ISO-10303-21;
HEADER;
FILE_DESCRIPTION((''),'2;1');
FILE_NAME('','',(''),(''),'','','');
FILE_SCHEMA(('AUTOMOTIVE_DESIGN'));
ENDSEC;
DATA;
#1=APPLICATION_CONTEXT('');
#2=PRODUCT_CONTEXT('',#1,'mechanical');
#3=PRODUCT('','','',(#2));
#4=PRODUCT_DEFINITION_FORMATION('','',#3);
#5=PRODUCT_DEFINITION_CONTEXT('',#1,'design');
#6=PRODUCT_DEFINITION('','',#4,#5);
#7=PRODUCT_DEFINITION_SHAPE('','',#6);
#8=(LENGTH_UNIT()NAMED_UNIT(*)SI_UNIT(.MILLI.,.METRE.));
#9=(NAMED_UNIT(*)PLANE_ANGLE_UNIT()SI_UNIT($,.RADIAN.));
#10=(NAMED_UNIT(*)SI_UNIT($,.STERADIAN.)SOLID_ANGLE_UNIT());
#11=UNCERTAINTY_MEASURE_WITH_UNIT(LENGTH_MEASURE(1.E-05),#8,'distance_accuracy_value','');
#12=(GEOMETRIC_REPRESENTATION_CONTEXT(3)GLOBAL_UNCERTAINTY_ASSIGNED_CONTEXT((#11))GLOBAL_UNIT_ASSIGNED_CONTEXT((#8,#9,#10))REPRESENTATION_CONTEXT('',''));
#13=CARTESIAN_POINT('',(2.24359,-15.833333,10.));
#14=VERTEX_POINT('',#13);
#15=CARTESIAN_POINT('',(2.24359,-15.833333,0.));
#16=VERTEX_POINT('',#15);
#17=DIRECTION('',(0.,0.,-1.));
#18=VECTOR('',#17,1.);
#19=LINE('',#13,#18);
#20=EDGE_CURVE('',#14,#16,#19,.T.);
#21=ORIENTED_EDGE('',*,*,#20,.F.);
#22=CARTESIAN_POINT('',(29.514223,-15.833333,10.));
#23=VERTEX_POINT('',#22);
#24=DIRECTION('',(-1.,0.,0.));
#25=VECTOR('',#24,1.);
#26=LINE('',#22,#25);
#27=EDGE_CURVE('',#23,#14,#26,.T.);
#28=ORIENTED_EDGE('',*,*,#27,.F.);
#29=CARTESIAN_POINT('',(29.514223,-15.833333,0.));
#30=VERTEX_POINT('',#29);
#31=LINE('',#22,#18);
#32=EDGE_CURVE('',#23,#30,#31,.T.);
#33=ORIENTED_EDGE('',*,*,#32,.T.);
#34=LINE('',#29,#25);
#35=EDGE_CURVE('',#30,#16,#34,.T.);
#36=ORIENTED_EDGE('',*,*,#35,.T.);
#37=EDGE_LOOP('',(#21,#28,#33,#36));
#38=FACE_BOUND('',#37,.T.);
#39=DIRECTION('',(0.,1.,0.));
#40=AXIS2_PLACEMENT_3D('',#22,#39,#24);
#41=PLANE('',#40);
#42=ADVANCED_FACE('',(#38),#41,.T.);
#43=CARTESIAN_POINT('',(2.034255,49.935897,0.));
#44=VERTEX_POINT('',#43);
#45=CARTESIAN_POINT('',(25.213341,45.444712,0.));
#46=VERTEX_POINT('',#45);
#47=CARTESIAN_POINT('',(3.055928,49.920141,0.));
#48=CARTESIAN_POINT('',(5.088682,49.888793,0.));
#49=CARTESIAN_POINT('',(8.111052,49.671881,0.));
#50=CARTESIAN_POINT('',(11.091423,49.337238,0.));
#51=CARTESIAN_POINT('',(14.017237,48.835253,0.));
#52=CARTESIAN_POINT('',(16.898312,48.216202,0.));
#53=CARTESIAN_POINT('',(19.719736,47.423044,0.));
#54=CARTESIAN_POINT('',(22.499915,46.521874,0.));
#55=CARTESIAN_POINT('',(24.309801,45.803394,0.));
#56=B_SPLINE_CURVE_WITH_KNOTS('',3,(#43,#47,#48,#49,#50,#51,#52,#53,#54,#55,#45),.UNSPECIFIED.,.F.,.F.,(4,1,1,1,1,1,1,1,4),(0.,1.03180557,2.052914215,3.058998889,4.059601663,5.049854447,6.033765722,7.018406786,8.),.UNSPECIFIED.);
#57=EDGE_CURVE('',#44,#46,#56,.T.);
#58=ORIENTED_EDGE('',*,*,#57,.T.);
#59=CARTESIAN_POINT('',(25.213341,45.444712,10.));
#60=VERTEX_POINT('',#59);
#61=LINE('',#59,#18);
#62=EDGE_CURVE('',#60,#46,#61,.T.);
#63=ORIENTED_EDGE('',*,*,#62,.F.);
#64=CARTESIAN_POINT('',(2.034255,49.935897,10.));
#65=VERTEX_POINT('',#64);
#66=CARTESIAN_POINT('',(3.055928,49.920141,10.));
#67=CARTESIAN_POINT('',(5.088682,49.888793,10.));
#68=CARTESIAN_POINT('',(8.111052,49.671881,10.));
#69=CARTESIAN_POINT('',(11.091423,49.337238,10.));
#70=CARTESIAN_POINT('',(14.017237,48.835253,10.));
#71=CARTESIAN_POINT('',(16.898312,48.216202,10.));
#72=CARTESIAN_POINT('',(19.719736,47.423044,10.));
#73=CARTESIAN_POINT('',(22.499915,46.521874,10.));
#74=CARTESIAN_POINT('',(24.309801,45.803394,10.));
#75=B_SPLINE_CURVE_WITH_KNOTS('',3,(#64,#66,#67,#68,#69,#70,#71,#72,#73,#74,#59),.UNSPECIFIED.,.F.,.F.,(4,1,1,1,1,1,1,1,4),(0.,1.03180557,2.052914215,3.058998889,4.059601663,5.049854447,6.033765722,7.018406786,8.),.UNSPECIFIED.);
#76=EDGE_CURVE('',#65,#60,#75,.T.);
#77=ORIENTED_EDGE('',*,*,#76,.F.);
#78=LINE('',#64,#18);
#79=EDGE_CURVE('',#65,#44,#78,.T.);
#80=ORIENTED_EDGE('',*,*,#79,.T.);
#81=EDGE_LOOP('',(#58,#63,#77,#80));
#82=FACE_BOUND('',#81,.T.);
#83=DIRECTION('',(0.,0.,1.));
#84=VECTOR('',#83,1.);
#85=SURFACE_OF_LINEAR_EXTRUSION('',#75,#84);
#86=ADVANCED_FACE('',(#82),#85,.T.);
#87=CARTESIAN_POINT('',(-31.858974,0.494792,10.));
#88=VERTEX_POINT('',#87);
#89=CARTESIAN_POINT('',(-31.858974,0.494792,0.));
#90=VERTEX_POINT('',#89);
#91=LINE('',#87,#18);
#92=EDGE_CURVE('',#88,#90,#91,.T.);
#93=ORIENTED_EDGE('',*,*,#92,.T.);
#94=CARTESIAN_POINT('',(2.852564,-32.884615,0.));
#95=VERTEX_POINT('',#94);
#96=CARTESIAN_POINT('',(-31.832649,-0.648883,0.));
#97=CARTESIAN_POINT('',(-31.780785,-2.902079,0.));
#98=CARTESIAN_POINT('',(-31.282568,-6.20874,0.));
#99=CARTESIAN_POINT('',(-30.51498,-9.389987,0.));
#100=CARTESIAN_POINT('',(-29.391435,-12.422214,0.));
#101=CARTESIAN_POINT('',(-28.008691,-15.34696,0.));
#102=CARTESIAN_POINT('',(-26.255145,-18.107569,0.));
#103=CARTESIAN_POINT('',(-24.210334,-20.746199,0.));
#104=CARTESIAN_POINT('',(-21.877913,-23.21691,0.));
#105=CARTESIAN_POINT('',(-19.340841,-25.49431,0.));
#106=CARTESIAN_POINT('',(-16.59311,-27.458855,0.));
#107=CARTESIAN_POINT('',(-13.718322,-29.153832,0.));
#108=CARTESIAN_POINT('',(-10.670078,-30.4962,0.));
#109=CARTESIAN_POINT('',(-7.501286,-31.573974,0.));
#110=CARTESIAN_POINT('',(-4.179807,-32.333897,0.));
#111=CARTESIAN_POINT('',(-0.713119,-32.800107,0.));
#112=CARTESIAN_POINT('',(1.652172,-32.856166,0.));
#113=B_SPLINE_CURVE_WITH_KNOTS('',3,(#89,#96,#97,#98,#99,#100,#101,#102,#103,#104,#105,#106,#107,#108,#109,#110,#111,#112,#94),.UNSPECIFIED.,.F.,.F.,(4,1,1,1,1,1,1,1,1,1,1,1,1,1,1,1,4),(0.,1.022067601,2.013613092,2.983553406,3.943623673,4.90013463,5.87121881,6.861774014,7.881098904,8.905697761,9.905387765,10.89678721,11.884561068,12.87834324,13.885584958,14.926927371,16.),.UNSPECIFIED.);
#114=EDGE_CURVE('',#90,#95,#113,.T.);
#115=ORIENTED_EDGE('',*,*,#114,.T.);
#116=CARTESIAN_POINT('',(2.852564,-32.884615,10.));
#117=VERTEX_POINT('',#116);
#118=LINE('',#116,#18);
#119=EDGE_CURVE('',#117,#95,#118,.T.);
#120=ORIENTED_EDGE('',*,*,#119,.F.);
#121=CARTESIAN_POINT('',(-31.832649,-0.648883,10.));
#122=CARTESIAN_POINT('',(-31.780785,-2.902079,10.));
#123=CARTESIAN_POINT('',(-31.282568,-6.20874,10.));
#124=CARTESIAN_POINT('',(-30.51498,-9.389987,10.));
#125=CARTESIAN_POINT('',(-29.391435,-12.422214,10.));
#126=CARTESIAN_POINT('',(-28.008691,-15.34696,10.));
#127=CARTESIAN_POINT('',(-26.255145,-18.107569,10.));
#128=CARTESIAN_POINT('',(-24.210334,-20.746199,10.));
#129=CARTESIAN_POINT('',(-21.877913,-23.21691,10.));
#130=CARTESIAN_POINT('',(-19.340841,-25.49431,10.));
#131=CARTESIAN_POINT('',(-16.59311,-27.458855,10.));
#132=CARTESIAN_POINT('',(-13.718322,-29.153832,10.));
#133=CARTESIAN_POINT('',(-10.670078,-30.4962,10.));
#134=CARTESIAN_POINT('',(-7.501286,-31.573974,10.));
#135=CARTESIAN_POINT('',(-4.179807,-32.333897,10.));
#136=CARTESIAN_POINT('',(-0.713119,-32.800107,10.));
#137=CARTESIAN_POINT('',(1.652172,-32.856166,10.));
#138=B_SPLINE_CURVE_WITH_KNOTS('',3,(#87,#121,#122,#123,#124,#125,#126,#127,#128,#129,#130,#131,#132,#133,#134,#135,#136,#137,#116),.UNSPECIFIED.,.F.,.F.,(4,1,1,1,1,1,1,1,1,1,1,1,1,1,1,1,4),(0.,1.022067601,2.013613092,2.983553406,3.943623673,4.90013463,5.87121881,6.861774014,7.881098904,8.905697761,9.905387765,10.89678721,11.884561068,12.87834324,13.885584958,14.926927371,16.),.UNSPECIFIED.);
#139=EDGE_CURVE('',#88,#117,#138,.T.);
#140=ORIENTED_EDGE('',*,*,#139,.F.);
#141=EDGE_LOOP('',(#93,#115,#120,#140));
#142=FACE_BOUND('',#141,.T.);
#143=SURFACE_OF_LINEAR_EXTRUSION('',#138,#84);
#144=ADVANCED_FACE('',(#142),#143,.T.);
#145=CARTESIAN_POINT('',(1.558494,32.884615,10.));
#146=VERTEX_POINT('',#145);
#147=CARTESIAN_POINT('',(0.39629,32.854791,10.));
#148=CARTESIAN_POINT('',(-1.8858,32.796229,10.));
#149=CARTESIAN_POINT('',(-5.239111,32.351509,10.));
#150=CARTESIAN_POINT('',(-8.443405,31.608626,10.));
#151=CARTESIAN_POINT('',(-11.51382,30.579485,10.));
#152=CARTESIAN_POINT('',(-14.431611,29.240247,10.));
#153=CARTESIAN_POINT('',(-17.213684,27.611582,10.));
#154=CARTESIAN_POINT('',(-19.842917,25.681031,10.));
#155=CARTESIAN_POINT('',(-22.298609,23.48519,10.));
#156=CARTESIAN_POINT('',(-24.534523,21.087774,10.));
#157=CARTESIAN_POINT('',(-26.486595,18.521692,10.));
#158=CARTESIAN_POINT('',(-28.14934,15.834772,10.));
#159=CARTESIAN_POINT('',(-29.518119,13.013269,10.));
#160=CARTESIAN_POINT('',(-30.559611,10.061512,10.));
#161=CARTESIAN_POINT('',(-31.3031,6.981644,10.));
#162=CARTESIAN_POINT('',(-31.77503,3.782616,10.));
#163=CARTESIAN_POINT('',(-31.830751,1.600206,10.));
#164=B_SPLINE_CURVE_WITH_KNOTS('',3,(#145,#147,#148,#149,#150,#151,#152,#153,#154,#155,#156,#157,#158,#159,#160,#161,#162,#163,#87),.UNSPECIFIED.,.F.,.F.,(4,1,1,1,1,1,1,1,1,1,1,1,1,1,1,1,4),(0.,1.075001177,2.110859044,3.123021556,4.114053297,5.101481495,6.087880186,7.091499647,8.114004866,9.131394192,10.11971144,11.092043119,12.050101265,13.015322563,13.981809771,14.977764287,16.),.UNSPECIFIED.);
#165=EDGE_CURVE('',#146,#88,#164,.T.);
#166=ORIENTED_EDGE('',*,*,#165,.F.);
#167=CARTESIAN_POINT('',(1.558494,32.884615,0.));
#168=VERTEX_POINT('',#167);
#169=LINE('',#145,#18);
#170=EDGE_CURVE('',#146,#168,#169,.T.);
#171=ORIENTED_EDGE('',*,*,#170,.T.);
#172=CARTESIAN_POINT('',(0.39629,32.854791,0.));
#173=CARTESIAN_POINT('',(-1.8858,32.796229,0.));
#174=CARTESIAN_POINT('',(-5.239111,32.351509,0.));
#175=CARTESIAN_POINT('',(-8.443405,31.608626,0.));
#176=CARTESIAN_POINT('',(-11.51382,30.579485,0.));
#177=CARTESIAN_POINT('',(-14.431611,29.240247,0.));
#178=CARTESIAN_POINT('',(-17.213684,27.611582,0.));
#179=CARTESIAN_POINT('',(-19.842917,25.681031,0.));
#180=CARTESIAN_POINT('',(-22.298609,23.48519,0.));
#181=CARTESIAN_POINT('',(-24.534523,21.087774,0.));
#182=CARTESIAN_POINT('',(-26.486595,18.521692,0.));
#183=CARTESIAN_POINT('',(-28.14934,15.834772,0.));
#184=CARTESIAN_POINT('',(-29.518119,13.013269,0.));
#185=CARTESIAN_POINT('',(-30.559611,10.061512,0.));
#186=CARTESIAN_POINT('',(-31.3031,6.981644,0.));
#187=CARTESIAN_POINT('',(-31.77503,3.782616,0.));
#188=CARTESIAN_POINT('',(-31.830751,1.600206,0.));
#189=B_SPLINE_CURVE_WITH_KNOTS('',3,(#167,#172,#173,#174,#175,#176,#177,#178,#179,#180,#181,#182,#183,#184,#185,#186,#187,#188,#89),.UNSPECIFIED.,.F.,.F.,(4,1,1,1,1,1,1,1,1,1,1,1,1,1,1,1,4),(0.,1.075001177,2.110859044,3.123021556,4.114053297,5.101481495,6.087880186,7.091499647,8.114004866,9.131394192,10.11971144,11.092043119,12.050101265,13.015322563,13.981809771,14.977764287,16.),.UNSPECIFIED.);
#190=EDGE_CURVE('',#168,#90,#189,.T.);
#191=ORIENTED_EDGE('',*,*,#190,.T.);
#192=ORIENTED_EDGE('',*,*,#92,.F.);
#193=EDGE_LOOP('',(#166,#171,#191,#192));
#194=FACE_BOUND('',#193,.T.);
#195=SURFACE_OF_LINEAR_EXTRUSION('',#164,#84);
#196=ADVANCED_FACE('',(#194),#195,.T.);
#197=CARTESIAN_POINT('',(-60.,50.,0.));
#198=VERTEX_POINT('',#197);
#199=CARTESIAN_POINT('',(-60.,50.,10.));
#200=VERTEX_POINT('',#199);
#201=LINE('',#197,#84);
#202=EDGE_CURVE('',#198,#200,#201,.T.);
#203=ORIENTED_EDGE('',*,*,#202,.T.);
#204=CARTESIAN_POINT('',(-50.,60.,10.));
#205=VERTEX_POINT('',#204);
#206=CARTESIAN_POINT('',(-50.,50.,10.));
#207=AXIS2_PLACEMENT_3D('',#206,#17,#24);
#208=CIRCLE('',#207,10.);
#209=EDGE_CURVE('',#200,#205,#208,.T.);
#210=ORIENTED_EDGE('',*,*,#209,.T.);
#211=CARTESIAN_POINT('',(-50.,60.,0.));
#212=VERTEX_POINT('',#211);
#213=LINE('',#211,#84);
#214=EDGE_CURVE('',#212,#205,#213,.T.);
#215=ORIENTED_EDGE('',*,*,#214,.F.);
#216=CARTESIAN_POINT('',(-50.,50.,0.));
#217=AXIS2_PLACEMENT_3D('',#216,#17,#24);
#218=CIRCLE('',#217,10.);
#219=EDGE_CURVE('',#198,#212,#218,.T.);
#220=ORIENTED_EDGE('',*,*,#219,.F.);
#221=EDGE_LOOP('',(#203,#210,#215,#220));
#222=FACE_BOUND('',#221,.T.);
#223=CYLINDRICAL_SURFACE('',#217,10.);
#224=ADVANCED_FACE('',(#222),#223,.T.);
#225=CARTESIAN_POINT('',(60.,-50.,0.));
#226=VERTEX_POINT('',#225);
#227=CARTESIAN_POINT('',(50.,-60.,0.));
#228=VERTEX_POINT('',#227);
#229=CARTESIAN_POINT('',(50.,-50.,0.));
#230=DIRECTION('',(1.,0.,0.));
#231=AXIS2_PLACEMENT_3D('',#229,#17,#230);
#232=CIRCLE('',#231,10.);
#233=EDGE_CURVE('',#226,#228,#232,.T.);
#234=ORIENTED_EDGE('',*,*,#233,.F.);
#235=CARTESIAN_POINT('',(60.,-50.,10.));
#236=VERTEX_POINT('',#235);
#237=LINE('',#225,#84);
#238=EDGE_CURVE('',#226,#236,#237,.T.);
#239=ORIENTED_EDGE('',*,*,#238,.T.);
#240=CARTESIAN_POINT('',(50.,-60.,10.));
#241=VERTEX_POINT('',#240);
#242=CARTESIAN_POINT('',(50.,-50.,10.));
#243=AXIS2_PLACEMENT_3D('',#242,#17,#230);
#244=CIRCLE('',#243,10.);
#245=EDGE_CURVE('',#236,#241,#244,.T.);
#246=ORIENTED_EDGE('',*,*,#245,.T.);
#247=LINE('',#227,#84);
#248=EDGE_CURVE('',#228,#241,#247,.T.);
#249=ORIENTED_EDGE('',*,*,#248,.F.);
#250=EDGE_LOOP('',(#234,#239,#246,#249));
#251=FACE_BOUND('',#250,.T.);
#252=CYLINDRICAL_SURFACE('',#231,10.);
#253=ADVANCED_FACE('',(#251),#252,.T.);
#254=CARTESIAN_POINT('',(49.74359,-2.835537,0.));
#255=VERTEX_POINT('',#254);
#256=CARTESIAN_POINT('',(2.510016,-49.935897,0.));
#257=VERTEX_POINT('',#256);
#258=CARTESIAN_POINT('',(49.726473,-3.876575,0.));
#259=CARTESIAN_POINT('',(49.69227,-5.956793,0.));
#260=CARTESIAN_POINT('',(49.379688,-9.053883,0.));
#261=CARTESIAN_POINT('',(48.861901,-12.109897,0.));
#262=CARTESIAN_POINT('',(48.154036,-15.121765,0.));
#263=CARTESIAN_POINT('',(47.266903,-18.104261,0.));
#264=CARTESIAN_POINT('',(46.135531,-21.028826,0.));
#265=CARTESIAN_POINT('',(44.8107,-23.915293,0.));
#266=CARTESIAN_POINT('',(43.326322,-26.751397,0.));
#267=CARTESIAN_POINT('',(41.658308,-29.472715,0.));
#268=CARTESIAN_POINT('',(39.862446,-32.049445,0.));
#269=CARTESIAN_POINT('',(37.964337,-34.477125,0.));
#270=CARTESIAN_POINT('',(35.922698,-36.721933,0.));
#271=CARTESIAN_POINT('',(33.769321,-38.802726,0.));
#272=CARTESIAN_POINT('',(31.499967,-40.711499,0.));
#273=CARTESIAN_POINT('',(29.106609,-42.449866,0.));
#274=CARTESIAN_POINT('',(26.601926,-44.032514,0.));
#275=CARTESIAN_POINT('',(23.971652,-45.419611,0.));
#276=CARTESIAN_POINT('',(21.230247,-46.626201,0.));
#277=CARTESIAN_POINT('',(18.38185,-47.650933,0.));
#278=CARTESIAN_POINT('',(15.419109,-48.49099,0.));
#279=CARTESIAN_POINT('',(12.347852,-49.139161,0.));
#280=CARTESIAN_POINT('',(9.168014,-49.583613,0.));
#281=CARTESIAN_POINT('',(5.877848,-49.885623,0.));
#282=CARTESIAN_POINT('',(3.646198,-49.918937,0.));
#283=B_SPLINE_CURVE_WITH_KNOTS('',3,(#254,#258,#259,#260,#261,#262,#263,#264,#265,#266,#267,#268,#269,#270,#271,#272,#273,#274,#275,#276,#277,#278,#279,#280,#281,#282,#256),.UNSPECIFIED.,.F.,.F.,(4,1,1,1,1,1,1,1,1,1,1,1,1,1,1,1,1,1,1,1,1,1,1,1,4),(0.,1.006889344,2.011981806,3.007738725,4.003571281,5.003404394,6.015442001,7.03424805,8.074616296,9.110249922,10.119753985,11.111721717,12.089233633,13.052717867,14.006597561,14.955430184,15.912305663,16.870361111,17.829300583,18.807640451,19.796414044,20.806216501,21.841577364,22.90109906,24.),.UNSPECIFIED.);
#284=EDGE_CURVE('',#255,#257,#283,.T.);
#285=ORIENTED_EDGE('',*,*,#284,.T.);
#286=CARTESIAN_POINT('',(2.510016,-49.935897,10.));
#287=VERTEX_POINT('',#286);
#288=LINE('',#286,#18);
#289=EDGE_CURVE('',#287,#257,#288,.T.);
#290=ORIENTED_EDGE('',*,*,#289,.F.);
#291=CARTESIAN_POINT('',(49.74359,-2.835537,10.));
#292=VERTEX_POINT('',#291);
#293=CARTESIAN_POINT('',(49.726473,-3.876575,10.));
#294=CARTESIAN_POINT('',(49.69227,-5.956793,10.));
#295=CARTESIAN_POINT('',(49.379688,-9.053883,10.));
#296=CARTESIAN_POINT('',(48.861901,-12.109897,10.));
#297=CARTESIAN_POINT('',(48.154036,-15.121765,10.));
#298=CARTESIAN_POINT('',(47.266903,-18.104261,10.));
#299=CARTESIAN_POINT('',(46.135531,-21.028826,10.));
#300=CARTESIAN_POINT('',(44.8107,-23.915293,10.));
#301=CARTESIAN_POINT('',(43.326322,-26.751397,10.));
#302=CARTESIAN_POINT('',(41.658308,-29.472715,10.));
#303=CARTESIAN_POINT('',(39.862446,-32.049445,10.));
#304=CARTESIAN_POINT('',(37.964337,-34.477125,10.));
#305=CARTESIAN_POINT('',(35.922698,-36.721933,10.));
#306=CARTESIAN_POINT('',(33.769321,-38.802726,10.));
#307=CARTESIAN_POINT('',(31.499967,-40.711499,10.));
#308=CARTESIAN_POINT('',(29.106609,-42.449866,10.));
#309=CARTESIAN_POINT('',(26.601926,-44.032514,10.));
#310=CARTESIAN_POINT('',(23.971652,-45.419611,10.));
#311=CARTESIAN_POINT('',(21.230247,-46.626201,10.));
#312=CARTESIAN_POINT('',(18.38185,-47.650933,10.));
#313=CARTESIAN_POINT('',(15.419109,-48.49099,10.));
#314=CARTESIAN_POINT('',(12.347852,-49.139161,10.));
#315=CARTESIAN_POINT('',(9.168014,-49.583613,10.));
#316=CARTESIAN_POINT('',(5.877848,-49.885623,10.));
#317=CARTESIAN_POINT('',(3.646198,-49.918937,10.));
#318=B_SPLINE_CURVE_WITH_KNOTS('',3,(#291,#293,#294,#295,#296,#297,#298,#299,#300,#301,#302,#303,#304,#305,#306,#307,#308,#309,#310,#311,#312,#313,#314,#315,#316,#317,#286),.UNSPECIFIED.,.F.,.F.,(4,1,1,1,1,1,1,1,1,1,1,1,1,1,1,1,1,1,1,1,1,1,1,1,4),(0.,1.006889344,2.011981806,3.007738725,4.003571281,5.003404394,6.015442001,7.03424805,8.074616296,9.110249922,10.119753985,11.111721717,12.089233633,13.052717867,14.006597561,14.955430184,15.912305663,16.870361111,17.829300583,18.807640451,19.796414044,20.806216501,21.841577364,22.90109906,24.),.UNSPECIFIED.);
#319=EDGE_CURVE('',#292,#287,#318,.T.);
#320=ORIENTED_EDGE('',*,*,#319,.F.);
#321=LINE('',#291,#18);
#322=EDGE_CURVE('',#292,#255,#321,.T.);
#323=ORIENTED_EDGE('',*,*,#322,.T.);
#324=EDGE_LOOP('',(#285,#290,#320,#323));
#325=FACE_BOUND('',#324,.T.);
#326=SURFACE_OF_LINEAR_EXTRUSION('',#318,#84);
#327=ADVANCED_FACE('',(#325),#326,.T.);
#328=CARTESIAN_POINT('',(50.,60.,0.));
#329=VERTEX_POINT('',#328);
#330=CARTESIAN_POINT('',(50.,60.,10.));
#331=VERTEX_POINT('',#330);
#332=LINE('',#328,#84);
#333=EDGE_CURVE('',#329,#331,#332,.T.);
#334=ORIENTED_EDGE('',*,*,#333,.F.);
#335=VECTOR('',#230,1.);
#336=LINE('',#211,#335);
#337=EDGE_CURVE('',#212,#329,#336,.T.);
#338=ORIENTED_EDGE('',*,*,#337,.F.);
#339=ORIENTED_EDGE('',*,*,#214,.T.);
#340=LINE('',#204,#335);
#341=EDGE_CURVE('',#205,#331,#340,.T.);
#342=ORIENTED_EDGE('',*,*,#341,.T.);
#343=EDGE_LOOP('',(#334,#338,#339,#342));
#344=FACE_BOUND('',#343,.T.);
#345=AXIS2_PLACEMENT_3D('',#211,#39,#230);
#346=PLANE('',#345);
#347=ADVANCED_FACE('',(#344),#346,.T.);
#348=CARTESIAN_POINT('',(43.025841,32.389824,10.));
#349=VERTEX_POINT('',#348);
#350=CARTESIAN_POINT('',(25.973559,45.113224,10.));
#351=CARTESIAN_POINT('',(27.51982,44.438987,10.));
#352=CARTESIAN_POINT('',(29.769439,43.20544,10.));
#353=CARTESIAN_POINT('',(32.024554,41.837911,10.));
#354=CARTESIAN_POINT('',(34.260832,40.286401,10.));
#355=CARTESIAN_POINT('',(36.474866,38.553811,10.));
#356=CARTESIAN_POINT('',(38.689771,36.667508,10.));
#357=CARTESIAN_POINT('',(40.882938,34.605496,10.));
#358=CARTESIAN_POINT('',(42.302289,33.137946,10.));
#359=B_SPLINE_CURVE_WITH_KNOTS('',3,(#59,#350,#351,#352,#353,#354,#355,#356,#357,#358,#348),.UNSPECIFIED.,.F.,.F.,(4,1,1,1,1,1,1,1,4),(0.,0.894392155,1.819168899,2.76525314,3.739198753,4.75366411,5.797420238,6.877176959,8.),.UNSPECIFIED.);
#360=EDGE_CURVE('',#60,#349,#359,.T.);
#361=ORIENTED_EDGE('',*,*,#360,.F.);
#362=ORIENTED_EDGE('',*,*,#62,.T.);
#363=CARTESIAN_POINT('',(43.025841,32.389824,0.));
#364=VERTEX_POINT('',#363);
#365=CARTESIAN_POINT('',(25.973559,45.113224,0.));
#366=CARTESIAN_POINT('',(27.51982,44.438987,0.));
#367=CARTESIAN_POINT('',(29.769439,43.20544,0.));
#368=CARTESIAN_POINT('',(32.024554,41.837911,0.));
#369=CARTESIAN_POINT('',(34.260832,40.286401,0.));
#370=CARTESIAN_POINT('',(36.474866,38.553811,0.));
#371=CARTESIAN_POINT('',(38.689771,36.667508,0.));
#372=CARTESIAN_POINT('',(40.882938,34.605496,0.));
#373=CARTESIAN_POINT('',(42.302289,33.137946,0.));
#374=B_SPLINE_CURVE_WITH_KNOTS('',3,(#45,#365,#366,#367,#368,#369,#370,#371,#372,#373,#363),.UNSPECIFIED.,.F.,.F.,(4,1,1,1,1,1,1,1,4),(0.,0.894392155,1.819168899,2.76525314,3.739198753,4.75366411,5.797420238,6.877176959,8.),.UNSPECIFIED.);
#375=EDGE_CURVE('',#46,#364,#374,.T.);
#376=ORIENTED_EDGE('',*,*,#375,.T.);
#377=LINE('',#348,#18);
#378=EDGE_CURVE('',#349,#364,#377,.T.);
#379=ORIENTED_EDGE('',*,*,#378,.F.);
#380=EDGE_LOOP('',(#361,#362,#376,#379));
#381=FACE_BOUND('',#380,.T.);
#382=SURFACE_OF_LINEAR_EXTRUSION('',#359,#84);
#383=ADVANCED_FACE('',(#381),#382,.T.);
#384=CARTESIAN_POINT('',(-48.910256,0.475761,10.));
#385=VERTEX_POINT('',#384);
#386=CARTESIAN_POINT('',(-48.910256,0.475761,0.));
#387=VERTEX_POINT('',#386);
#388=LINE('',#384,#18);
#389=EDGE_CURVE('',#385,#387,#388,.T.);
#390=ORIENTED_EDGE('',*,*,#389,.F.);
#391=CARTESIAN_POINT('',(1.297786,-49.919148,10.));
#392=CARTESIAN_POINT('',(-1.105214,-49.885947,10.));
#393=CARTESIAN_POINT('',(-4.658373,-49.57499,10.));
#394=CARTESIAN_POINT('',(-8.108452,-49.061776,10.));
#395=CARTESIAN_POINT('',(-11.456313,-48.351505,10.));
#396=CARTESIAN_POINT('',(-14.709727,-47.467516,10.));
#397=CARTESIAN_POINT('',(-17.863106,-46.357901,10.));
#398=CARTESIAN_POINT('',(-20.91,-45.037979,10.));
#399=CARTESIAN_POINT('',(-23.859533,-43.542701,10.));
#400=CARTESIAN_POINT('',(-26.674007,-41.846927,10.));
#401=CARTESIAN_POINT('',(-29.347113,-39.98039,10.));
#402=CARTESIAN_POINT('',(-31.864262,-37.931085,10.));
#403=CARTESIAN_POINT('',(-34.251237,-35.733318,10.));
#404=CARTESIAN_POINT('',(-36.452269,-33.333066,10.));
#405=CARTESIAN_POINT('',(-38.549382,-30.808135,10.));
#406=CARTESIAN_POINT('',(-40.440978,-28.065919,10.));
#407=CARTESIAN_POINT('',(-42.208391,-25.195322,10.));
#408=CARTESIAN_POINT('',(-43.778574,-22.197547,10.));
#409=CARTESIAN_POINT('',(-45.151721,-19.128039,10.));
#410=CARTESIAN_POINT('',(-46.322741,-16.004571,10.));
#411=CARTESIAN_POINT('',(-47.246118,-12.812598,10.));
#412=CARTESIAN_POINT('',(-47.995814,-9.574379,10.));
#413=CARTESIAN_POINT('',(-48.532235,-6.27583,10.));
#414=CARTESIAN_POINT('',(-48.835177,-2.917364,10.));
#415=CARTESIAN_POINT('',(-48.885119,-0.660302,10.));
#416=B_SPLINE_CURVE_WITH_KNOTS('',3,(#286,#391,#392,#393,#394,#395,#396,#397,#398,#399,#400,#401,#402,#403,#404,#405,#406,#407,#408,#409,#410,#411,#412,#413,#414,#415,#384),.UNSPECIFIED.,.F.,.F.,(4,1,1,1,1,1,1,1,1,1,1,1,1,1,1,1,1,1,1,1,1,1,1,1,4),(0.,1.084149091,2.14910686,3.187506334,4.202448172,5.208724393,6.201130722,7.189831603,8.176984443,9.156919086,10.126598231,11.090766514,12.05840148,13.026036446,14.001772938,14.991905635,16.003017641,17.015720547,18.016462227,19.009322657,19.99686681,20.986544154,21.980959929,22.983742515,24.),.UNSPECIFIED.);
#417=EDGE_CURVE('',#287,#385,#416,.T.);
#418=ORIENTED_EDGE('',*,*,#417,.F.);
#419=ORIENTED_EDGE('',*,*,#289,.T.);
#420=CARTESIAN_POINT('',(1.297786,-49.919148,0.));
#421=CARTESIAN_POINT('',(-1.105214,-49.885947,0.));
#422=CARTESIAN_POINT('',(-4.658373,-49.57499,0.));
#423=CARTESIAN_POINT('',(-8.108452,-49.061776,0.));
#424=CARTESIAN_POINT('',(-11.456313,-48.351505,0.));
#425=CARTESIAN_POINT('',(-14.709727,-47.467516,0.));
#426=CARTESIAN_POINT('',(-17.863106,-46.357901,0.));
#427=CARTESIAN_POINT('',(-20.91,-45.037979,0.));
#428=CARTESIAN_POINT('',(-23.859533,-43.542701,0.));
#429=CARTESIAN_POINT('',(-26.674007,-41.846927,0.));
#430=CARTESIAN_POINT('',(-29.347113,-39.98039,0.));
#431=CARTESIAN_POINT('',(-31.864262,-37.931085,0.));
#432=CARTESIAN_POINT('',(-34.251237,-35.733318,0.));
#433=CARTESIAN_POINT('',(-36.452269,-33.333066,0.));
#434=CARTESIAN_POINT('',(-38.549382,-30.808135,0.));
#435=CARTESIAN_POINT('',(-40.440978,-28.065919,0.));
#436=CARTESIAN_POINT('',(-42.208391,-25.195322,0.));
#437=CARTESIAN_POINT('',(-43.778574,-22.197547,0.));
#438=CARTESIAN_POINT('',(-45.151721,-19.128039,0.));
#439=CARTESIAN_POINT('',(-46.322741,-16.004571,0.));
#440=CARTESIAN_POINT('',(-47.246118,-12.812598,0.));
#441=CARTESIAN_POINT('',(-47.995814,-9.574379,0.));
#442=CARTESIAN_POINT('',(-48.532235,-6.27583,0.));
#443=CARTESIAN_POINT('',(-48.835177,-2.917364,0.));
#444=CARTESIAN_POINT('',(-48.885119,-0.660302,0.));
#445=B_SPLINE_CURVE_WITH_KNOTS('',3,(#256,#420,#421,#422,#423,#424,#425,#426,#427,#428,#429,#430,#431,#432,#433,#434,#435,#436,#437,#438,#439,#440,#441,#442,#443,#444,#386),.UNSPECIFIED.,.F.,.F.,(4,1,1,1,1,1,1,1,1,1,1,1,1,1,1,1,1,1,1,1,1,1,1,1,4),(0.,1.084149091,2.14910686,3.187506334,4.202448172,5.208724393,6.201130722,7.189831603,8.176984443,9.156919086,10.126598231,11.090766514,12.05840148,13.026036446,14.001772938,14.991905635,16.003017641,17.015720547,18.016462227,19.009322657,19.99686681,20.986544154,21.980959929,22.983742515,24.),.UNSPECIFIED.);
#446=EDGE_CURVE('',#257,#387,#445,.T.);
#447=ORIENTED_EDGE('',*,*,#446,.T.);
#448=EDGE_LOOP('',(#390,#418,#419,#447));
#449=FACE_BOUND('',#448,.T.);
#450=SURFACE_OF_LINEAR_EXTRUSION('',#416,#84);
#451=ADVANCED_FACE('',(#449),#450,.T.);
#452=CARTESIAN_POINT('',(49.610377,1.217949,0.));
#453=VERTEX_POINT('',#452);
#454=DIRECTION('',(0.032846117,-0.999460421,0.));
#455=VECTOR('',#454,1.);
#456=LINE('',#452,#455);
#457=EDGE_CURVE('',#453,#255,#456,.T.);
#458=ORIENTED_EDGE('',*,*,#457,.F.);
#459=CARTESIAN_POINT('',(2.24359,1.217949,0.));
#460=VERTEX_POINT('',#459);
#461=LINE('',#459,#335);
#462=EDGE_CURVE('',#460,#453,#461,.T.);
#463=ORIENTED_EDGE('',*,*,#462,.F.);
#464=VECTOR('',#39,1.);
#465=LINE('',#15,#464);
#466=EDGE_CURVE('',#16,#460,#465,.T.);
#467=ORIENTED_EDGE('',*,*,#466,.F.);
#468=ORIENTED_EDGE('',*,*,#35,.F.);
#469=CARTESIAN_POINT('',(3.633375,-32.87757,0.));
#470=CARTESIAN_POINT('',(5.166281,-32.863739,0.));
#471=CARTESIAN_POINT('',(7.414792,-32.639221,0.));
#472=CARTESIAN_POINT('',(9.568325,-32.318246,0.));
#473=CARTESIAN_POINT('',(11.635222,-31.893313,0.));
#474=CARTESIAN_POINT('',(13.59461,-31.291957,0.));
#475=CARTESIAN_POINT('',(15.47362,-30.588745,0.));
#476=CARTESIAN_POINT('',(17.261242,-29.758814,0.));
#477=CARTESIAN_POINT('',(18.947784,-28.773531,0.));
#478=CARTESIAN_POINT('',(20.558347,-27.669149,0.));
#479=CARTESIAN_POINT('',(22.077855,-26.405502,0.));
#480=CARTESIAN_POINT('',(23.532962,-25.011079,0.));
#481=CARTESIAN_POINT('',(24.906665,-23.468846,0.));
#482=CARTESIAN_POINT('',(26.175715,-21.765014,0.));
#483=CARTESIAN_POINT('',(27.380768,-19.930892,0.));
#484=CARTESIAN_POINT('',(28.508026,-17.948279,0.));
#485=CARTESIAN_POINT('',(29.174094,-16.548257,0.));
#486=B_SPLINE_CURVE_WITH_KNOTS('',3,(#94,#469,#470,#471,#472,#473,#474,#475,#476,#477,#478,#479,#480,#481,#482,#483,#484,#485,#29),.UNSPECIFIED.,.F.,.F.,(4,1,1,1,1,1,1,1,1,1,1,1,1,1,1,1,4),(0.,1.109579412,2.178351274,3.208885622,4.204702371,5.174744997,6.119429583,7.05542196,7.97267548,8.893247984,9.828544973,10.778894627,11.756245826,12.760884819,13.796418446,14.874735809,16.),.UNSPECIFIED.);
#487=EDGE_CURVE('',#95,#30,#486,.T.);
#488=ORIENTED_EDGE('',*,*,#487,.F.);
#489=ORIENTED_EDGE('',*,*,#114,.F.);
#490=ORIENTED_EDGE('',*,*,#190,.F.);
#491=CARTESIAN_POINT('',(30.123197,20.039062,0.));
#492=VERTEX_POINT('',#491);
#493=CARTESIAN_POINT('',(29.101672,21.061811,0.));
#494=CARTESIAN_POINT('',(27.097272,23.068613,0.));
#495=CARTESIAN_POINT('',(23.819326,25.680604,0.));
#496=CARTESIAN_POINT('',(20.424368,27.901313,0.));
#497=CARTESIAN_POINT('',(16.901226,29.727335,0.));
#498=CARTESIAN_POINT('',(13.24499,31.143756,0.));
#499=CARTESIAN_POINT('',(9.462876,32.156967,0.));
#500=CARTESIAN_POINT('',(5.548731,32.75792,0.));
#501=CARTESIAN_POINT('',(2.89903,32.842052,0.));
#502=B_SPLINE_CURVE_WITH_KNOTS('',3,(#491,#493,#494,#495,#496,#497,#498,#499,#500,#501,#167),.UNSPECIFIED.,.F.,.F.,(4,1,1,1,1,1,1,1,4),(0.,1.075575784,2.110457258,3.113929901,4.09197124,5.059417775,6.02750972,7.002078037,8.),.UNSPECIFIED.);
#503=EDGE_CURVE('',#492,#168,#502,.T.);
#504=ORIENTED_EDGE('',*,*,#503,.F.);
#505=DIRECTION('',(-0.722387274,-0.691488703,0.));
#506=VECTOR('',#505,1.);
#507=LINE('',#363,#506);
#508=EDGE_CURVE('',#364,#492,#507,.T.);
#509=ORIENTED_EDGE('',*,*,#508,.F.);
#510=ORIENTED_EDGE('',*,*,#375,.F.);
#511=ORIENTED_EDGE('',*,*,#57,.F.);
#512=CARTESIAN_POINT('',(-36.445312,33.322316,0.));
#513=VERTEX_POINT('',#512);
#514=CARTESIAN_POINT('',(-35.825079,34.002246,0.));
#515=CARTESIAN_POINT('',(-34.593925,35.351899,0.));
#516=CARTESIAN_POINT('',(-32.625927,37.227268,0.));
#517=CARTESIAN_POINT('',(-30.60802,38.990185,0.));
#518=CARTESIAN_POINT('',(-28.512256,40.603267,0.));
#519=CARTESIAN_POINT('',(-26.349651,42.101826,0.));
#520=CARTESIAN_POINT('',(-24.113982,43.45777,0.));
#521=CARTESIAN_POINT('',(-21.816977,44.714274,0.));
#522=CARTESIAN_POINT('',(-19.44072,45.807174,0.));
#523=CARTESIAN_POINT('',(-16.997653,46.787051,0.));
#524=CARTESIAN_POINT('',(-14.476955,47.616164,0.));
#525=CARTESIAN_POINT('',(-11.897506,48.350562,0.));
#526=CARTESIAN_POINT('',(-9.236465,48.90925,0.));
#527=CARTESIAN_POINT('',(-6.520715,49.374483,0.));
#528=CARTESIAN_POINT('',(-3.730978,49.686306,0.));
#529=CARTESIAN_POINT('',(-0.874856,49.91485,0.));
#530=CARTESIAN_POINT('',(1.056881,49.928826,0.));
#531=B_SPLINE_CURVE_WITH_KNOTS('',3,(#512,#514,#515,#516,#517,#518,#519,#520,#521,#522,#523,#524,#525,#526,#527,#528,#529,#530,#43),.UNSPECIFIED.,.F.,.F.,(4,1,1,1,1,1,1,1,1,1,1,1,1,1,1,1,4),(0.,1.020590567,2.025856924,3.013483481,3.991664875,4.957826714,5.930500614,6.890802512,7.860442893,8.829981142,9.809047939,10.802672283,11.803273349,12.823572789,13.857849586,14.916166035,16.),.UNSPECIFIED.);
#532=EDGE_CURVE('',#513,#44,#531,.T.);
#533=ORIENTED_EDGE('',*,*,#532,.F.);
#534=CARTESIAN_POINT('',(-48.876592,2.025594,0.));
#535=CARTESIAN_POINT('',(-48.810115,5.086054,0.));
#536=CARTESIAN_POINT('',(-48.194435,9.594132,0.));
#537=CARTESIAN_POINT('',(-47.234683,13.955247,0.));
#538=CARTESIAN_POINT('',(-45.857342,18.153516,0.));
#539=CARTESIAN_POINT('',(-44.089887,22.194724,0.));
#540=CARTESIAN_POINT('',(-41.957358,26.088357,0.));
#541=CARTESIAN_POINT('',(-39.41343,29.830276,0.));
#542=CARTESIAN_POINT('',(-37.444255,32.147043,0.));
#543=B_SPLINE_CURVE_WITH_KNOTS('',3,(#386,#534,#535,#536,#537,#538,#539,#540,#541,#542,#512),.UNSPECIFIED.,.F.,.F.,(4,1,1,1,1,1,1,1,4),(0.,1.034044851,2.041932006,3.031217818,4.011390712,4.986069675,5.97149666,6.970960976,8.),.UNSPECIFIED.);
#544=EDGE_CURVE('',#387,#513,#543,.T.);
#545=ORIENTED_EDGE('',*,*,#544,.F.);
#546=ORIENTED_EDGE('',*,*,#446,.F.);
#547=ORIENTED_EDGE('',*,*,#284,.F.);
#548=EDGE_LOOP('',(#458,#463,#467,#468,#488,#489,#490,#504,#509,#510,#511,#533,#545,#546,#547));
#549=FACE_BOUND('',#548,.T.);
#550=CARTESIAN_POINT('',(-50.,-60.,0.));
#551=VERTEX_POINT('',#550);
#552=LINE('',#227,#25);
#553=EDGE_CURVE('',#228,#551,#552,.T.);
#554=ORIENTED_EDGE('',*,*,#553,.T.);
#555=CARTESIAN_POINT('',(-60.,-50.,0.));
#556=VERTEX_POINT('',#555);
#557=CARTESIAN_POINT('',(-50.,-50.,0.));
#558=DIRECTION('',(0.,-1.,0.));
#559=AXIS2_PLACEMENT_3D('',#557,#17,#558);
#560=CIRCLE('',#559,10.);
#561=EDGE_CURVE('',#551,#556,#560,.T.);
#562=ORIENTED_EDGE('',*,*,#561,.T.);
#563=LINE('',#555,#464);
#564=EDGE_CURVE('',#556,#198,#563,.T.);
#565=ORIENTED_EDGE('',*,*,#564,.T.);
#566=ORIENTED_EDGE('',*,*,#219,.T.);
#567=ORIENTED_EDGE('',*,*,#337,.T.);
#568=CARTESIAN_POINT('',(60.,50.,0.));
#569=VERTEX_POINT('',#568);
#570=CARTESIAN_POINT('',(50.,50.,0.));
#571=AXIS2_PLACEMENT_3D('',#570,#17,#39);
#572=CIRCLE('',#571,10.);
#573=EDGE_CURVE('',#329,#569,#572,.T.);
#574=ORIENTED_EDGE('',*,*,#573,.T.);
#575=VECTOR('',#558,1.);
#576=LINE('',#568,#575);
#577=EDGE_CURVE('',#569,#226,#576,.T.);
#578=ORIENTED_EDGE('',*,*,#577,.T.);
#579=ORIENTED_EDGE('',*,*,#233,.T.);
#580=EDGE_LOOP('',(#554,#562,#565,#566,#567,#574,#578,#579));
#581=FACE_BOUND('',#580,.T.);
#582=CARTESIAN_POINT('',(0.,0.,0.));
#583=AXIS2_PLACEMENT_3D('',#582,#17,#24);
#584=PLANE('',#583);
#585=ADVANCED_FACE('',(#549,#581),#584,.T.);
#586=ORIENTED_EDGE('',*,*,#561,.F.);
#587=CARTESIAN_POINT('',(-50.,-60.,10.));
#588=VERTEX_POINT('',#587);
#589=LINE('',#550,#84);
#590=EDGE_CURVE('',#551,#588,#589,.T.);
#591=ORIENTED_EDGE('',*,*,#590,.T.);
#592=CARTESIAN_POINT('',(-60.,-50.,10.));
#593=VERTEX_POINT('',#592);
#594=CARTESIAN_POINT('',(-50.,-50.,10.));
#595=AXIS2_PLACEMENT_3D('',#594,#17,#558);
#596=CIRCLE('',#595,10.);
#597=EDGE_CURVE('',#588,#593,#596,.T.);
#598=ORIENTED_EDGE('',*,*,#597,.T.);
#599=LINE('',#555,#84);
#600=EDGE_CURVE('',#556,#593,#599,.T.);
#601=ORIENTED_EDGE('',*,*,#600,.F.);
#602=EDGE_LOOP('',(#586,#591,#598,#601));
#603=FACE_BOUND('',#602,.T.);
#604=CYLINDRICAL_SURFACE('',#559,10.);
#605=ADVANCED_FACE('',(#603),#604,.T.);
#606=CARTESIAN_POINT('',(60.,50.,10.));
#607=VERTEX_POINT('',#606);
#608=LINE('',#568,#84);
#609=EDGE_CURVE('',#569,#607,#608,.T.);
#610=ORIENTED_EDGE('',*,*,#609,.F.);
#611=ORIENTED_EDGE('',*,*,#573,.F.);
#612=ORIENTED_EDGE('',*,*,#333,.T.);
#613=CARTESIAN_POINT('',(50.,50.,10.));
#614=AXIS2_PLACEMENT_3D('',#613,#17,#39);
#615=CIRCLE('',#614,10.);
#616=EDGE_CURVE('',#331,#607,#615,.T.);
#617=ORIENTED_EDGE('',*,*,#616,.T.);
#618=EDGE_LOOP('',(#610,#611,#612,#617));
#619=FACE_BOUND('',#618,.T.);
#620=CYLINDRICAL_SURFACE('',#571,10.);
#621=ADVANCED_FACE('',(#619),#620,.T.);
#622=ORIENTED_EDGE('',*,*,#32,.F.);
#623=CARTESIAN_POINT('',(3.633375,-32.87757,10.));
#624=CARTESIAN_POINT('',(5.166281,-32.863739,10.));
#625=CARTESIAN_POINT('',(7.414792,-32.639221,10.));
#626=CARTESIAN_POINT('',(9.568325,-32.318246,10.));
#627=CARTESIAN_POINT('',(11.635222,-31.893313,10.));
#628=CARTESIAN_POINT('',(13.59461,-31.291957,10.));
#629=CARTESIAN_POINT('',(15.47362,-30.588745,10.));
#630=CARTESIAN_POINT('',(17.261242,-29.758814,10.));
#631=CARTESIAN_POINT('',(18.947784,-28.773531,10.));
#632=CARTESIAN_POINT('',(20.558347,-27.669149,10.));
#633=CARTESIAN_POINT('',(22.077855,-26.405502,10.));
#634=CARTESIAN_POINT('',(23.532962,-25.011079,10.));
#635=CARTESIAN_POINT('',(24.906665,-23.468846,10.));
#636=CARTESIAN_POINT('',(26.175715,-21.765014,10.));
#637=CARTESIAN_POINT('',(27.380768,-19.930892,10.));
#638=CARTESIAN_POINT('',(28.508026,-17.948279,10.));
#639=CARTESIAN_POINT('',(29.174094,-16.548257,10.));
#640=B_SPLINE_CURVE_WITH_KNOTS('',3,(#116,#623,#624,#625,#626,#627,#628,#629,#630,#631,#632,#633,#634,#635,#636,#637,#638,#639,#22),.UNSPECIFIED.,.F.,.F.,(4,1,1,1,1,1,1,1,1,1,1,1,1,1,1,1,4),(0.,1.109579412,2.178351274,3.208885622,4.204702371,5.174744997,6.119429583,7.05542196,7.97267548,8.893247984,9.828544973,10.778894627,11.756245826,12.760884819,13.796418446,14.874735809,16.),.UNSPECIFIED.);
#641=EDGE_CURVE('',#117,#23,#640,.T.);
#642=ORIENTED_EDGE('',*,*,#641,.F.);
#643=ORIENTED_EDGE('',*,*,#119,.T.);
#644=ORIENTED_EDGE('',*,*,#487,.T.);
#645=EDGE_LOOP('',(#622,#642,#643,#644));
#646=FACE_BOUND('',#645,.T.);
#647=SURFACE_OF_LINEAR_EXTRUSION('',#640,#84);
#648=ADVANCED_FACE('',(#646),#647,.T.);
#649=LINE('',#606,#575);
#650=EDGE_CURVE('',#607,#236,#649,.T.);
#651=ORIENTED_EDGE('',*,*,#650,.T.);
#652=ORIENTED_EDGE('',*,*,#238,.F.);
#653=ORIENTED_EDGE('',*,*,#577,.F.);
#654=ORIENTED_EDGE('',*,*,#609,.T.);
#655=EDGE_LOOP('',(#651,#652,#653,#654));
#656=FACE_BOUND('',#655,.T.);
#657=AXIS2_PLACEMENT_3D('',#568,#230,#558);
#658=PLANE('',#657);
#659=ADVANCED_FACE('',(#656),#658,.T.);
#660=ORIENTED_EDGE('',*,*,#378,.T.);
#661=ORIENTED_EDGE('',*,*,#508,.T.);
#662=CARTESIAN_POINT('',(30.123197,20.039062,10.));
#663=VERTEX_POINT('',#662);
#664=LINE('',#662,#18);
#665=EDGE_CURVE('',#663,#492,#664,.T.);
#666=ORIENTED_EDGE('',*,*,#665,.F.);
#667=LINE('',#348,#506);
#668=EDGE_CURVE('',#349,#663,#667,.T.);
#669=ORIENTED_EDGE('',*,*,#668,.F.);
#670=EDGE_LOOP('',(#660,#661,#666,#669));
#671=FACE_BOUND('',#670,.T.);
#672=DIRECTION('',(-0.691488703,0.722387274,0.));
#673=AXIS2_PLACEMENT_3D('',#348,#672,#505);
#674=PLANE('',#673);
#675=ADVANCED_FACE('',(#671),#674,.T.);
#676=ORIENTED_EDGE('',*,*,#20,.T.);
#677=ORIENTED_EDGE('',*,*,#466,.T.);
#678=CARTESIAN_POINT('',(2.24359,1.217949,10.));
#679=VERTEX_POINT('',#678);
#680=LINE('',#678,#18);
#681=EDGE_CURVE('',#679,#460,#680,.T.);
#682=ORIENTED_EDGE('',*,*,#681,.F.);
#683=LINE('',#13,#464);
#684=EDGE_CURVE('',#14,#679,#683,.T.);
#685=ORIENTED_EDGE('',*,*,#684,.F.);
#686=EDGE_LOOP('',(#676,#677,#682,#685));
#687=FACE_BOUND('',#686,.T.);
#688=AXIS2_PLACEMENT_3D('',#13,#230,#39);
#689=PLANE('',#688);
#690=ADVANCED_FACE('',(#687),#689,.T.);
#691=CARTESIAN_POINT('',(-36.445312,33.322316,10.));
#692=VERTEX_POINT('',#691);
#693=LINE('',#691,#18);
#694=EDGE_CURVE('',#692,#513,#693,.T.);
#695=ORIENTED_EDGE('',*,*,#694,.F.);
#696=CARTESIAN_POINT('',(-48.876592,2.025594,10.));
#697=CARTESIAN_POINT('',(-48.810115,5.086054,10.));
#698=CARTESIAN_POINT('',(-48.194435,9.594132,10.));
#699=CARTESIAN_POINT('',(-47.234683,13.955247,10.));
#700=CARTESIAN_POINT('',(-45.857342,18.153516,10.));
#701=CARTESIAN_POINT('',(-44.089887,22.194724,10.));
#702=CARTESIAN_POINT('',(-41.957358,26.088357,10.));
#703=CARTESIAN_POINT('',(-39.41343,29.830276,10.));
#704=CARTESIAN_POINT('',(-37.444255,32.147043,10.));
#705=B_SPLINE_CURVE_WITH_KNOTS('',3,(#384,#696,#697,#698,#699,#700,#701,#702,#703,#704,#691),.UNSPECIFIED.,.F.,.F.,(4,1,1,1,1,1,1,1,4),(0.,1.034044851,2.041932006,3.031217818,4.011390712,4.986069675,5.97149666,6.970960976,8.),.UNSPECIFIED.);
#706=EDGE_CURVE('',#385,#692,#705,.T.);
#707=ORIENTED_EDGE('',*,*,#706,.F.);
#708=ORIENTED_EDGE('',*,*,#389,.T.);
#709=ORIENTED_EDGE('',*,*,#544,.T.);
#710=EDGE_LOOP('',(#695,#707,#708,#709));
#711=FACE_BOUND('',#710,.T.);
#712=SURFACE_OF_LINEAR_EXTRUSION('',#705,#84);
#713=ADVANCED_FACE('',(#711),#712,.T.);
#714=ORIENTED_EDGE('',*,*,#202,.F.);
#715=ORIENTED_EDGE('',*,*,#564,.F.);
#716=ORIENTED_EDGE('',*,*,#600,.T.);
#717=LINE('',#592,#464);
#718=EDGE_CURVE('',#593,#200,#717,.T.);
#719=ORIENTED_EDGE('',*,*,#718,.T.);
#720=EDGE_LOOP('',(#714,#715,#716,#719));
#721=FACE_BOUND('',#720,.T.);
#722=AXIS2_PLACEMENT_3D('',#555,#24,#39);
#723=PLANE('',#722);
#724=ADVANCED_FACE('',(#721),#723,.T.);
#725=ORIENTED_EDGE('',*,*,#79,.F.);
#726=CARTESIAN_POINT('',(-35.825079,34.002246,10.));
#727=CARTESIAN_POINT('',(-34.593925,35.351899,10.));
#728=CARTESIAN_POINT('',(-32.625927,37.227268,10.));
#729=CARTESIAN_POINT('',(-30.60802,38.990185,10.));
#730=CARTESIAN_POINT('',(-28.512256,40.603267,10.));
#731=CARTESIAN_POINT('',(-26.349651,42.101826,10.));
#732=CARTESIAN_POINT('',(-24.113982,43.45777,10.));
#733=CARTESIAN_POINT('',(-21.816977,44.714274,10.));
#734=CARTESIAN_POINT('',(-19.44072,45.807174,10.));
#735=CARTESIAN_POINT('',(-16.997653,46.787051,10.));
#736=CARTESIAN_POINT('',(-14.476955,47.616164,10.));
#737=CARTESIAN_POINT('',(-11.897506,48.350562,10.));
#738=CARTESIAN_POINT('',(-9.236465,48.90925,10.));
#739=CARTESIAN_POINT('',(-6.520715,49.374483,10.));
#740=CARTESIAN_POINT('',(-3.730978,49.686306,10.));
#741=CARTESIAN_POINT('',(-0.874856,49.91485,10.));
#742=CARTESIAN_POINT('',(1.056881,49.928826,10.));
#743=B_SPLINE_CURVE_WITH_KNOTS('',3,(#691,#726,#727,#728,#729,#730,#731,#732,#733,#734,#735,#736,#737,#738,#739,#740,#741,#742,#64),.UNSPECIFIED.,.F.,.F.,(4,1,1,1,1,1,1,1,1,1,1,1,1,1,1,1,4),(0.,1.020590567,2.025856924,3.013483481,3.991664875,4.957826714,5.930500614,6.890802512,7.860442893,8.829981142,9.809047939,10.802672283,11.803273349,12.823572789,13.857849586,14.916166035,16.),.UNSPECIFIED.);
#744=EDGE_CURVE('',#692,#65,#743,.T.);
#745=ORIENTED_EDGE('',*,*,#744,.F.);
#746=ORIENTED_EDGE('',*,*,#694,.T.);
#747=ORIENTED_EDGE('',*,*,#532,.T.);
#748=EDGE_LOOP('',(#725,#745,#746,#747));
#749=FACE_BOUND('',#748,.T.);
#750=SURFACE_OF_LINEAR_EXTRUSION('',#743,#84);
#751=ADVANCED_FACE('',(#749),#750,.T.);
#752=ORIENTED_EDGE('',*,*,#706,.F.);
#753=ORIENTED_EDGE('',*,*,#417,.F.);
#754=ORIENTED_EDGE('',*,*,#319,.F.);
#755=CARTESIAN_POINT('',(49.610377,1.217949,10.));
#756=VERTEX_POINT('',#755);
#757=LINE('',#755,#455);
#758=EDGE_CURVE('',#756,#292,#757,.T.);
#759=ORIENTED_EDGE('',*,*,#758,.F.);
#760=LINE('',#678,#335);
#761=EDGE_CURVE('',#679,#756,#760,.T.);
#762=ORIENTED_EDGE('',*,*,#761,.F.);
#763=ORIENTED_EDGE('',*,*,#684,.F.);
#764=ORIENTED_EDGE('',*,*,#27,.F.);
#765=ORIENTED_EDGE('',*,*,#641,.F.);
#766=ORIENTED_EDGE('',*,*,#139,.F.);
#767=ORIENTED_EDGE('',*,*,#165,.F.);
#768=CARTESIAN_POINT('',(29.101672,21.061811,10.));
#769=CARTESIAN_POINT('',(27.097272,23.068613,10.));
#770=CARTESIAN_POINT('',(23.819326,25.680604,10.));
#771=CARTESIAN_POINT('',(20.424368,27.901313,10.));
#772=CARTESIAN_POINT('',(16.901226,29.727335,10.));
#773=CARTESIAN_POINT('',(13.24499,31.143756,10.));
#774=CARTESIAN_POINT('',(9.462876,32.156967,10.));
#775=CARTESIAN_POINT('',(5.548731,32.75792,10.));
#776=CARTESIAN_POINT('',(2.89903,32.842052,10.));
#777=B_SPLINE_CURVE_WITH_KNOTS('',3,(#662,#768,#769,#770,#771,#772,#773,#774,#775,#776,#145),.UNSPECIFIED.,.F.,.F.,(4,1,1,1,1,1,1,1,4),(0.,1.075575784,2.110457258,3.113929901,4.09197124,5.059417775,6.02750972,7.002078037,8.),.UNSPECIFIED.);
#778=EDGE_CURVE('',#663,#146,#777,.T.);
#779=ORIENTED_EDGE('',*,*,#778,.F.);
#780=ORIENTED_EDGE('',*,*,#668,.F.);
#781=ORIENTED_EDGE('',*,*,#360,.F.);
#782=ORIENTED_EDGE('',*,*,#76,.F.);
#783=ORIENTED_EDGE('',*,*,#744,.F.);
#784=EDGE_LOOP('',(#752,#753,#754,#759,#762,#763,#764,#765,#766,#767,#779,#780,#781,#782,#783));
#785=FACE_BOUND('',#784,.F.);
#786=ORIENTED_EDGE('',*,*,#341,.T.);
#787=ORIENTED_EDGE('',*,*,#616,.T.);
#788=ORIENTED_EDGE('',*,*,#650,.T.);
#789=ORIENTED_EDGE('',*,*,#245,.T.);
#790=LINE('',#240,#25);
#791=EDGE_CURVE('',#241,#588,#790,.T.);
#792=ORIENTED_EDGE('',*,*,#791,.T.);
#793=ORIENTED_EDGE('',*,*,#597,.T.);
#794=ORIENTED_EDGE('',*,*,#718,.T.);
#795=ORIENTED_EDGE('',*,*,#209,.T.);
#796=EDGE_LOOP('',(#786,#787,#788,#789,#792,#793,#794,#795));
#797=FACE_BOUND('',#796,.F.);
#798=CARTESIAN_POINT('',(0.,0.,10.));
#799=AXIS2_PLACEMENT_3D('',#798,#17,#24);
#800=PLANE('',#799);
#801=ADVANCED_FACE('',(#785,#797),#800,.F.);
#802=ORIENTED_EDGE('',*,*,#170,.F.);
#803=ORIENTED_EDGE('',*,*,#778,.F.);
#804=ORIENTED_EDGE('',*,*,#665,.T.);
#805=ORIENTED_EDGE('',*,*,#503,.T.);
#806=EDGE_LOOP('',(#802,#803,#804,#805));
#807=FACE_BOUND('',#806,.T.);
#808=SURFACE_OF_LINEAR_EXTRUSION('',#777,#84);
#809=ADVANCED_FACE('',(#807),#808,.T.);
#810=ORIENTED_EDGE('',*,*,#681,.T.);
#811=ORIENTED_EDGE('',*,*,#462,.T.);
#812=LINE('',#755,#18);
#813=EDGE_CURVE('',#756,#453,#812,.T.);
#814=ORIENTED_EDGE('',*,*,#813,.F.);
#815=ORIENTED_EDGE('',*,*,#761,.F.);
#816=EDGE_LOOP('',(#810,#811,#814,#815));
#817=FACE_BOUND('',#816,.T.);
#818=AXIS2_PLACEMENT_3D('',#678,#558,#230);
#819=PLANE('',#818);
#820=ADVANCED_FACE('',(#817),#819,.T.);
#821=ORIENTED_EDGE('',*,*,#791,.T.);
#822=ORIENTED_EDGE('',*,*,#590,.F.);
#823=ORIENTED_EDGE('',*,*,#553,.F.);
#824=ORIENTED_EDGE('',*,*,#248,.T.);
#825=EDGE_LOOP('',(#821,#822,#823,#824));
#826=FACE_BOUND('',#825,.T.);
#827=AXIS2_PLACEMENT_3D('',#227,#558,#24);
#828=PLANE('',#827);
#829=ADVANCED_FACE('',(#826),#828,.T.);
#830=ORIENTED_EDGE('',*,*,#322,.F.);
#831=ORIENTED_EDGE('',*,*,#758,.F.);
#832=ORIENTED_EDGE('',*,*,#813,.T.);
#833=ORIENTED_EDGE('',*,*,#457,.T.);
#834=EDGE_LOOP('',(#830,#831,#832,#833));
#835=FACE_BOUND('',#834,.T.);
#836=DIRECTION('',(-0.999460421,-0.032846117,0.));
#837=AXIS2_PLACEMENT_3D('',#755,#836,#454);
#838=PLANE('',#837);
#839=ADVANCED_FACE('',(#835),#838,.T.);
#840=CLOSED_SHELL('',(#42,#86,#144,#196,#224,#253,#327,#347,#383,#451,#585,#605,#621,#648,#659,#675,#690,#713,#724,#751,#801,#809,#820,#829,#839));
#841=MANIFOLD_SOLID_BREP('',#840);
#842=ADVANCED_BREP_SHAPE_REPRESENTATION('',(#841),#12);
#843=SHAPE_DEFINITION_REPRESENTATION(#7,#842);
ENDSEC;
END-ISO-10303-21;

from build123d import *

# Parameters (mm, degrees)
BOSS_EXTRUDE1_DEPTH = 10
CUT_EXTRUDE20_DEPTH = 10


with BuildPart() as part:
    # Sketch1 → Boss-Extrude1 (new body)
    with BuildSketch(Plane.XY):
        with BuildLine():
            Line((-50, 60), (50, 60))
            ThreePointArc((50, 60), (57.071067812, 57.071067812), (60, 50))
            Line((60, 50), (60, -50))
            ThreePointArc((60, -50), (57.071067812, -57.071067812), (50, -60))
            Line((50, -60), (-50, -60))
            ThreePointArc((-50, -60), (-57.071067812, -57.071067812), (-60, -50))
            Line((-60, -50), (-60, 50))
            ThreePointArc((-60, 50), (-57.071067812, 57.071067812), (-50, 60))
        make_face()
    extrude(amount=BOSS_EXTRUDE1_DEPTH)

    # Sketch2 → Cut-Extrude20 (cut)
    with BuildSketch(Plane.XY.offset(10)):
        with BuildLine():
            Line((43.025841346, 32.389823718), (30.123197115, 20.0390625))
            add(Edge.make_bspline(
                [(30.123197115, 20.0390625), (29.101672257, 21.061811325), (27.097271839, 23.068613369), (23.819325693, 25.680604146), (20.424368315, 27.901312672), (16.901225536, 29.727334557), (13.244989599, 31.143755892), (9.462875821, 32.156967391), (5.548731191, 32.7579203), (2.899029992, 32.842051661), (1.55849359, 32.884615385)],
                knots=[0, 0, 0, 0, 1.075575784, 2.110457258, 3.113929901, 4.09197124, 5.059417775, 6.02750972, 7.002078037, 8, 8, 8, 8], degree=3))
            add(Edge.make_bspline(
                [(1.55849359, 32.884615385), (0.396289515, 32.854791176), (-1.885800065, 32.796228727), (-5.239110912, 32.351509499), (-8.443404835, 31.608626028), (-11.513820243, 30.579485021), (-14.431611188, 29.240247299), (-17.213683889, 27.611582431), (-19.842917451, 25.681030991), (-22.298608552, 23.485189523), (-24.534523201, 21.087773984), (-26.486594752, 18.521691616), (-28.149340344, 15.834772023), (-29.518119077, 13.01326852), (-30.559610844, 10.06151156), (-31.303099679, 6.981643968), (-31.775030209, 3.782616261), (-31.830751107, 1.600206429), (-31.858974359, 0.494791667)],
                knots=[0, 0, 0, 0, 1.075001177, 2.110859044, 3.123021556, 4.114053297, 5.101481495, 6.087880186, 7.091499647, 8.114004866, 9.131394192, 10.11971144, 11.092043119, 12.050101265, 13.015322563, 13.981809771, 14.977764287, 16, 16, 16, 16], degree=3))
            add(Edge.make_bspline(
                [(-31.858974359, 0.494791667), (-31.83264906, -0.648882984), (-31.780784616, -2.90207861), (-31.282567998, -6.208740054), (-30.514979525, -9.389986642), (-29.39143466, -12.422214259), (-28.0086912, -15.346960195), (-26.255144671, -18.107569332), (-24.210333942, -20.746199204), (-21.877912803, -23.216909745), (-19.340840935, -25.494310256), (-16.593109559, -27.458854559), (-13.718321506, -29.153832231), (-10.670077564, -30.496199757), (-7.501286227, -31.573973822), (-4.179806851, -32.333897032), (-0.713118606, -32.800107284), (1.652171532, -32.856165602), (2.852564103, -32.884615385)],
                knots=[0, 0, 0, 0, 1.022067601, 2.013613092, 2.983553406, 3.943623673, 4.90013463, 5.87121881, 6.861774014, 7.881098904, 8.905697761, 9.905387765, 10.89678721, 11.884561068, 12.87834324, 13.885584958, 14.926927371, 16, 16, 16, 16], degree=3))
            add(Edge.make_bspline(
                [(2.852564103, -32.884615385), (3.633375016, -32.877570263), (5.166280575, -32.863739121), (7.414791803, -32.639220794), (9.56832549, -32.318245747), (11.635221676, -31.893312898), (13.594610257, -31.291956666), (15.47362031, -30.588744605), (17.261242491, -29.758814157), (18.947784497, -28.773531178), (20.558346969, -27.669149395), (22.077854726, -26.405501787), (23.532961722, -25.011078956), (24.906665222, -23.468846061), (26.175714886, -21.765013702), (27.380767856, -19.930892086), (28.508026478, -17.948278664), (29.174093857, -16.548257493), (29.514222756, -15.833333333)],
                knots=[0, 0, 0, 0, 1.109579412, 2.178351274, 3.208885622, 4.204702371, 5.174744997, 6.119429583, 7.05542196, 7.97267548, 8.893247984, 9.828544973, 10.778894627, 11.756245826, 12.760884819, 13.796418446, 14.874735809, 16, 16, 16, 16], degree=3))
            Line((29.514222756, -15.833333333), (2.243589744, -15.833333333))
            Line((2.243589744, -15.833333333), (2.243589744, 1.217948718))
            Line((2.243589744, 1.217948718), (49.610376603, 1.217948718))
            Line((49.610376603, 1.217948718), (49.743589744, -2.835536859))
            add(Edge.make_bspline(
                [(49.743589744, -2.835536859), (49.726472847, -3.876574804), (49.692269599, -5.95679287), (49.379687785, -9.05388319), (48.861900774, -12.109897034), (48.154036366, -15.12176501), (47.266903196, -18.104261414), (46.135530703, -21.028826361), (44.810700427, -23.915293277), (43.326322097, -26.751396909), (41.658307942, -29.472715457), (39.862445782, -32.049444886), (37.964336859, -34.477125435), (35.922698088, -36.721933428), (33.769321141, -38.80272625), (31.499967076, -40.711498835), (29.106609302, -42.449866244), (26.601926388, -44.03251371), (23.971651757, -45.419610834), (21.230246649, -46.626201315), (18.381850215, -47.650933134), (15.419108562, -48.490990308), (12.347851627, -49.139161247), (9.168013616, -49.583612912), (5.877848125, -49.885622812), (3.646198469, -49.91893663), (2.510016026, -49.935897436)],
                knots=[0, 0, 0, 0, 1.006889344, 2.011981806, 3.007738725, 4.003571281, 5.003404394, 6.015442001, 7.03424805, 8.074616296, 9.110249922, 10.119753985, 11.111721717, 12.089233633, 13.052717867, 14.006597561, 14.955430184, 15.912305663, 16.870361111, 17.829300583, 18.807640451, 19.796414044, 20.806216501, 21.841577364, 22.90109906, 24, 24, 24, 24], degree=3))
            add(Edge.make_bspline(
                [(2.510016026, -49.935897436), (1.297786391, -49.919148326), (-1.105214309, -49.885946594), (-4.658372904, -49.574989776), (-8.108452155, -49.061775621), (-11.456312597, -48.351504768), (-14.709727285, -47.467515954), (-17.863106347, -46.357900887), (-20.910000278, -45.037978679), (-23.85953309, -43.54270137), (-26.674006547, -41.846926658), (-29.347112957, -39.980390143), (-31.864262001, -37.931085264), (-34.251237083, -35.733317811), (-36.452269248, -33.333066461), (-38.549382353, -30.808135004), (-40.44097845, -28.065919025), (-42.208390563, -25.195321967), (-43.778573599, -22.19754677), (-45.151721242, -19.128038823), (-46.322740771, -16.004570602), (-47.246117975, -12.812598182), (-47.995813786, -9.574378679), (-48.532235209, -6.275829811), (-48.83517745, -2.917364496), (-48.885118988, -0.660301834), (-48.91025641, 0.475761218)],
                knots=[0, 0, 0, 0, 1.084149091, 2.14910686, 3.187506334, 4.202448172, 5.208724393, 6.201130722, 7.189831603, 8.176984443, 9.156919086, 10.126598231, 11.090766514, 12.05840148, 13.026036446, 14.001772938, 14.991905635, 16.003017641, 17.015720547, 18.016462227, 19.009322657, 19.99686681, 20.986544154, 21.980959929, 22.983742515, 24, 24, 24, 24], degree=3))
            add(Edge.make_bspline(
                [(-48.91025641, 0.475761218), (-48.876592035, 2.025593992), (-48.810114873, 5.086054225), (-48.194435478, 9.594131562), (-47.234683024, 13.955246578), (-45.857341624, 18.15351638), (-44.089887361, 22.194724133), (-41.957357822, 26.088356769), (-39.413429836, 29.830275694), (-37.444254854, 32.14704321), (-36.4453125, 33.322315705)],
                knots=[0, 0, 0, 0, 1.034044851, 2.041932006, 3.031217818, 4.011390712, 4.986069675, 5.97149666, 6.970960976, 8, 8, 8, 8], degree=3))
            add(Edge.make_bspline(
                [(-36.4453125, 33.322315705), (-35.825078952, 34.002246466), (-34.593924689, 35.351898801), (-32.625926838, 37.227268178), (-30.608020011, 38.990184776), (-28.512255874, 40.603267051), (-26.349651476, 42.101826149), (-24.113982457, 43.457770387), (-21.816976621, 44.714273743), (-19.440720102, 45.807174398), (-16.997652934, 46.787051002), (-14.476955156, 47.616164385), (-11.897506276, 48.350561775), (-9.236465188, 48.909249832), (-6.520714756, 49.374482609), (-3.730977675, 49.686305981), (-0.874856146, 49.914850314), (1.056880807, 49.928826235), (2.034254808, 49.935897436)],
                knots=[0, 0, 0, 0, 1.020590567, 2.025856924, 3.013483481, 3.991664875, 4.957826714, 5.930500614, 6.890802512, 7.860442893, 8.829981142, 9.809047939, 10.802672283, 11.803273349, 12.823572789, 13.857849586, 14.916166035, 16, 16, 16, 16], degree=3))
            add(Edge.make_bspline(
                [(2.034254808, 49.935897436), (3.055927959, 49.920141479), (5.088682381, 49.888792909), (8.111051578, 49.671881266), (11.091422928, 49.337237729), (14.017236856, 48.835253312), (16.898312407, 48.216202044), (19.719736444, 47.423044151), (22.499915266, 46.521873915), (24.309801151, 45.803394427), (25.213341346, 45.444711538)],
                knots=[0, 0, 0, 0, 1.03180557, 2.052914215, 3.058998889, 4.059601663, 5.049854447, 6.033765722, 7.018406786, 8, 8, 8, 8], degree=3))
            add(Edge.make_bspline(
                [(25.213341346, 45.444711538), (25.973558652, 45.113223986), (27.519819621, 44.438987476), (29.769438752, 43.205440158), (32.024554321, 41.837911379), (34.260832481, 40.286401114), (36.474865772, 38.553811407), (38.689771056, 36.667508217), (40.882937788, 34.60549617), (42.302289454, 33.137946044), (43.025841346, 32.389823718)],
                knots=[0, 0, 0, 0, 0.894392155, 1.819168899, 2.76525314, 3.739198753, 4.75366411, 5.797420238, 6.877176959, 8, 8, 8, 8], degree=3))
        make_face()
    extrude(amount=-CUT_EXTRUDE20_DEPTH, mode=Mode.SUBTRACT)


solid = part.part
